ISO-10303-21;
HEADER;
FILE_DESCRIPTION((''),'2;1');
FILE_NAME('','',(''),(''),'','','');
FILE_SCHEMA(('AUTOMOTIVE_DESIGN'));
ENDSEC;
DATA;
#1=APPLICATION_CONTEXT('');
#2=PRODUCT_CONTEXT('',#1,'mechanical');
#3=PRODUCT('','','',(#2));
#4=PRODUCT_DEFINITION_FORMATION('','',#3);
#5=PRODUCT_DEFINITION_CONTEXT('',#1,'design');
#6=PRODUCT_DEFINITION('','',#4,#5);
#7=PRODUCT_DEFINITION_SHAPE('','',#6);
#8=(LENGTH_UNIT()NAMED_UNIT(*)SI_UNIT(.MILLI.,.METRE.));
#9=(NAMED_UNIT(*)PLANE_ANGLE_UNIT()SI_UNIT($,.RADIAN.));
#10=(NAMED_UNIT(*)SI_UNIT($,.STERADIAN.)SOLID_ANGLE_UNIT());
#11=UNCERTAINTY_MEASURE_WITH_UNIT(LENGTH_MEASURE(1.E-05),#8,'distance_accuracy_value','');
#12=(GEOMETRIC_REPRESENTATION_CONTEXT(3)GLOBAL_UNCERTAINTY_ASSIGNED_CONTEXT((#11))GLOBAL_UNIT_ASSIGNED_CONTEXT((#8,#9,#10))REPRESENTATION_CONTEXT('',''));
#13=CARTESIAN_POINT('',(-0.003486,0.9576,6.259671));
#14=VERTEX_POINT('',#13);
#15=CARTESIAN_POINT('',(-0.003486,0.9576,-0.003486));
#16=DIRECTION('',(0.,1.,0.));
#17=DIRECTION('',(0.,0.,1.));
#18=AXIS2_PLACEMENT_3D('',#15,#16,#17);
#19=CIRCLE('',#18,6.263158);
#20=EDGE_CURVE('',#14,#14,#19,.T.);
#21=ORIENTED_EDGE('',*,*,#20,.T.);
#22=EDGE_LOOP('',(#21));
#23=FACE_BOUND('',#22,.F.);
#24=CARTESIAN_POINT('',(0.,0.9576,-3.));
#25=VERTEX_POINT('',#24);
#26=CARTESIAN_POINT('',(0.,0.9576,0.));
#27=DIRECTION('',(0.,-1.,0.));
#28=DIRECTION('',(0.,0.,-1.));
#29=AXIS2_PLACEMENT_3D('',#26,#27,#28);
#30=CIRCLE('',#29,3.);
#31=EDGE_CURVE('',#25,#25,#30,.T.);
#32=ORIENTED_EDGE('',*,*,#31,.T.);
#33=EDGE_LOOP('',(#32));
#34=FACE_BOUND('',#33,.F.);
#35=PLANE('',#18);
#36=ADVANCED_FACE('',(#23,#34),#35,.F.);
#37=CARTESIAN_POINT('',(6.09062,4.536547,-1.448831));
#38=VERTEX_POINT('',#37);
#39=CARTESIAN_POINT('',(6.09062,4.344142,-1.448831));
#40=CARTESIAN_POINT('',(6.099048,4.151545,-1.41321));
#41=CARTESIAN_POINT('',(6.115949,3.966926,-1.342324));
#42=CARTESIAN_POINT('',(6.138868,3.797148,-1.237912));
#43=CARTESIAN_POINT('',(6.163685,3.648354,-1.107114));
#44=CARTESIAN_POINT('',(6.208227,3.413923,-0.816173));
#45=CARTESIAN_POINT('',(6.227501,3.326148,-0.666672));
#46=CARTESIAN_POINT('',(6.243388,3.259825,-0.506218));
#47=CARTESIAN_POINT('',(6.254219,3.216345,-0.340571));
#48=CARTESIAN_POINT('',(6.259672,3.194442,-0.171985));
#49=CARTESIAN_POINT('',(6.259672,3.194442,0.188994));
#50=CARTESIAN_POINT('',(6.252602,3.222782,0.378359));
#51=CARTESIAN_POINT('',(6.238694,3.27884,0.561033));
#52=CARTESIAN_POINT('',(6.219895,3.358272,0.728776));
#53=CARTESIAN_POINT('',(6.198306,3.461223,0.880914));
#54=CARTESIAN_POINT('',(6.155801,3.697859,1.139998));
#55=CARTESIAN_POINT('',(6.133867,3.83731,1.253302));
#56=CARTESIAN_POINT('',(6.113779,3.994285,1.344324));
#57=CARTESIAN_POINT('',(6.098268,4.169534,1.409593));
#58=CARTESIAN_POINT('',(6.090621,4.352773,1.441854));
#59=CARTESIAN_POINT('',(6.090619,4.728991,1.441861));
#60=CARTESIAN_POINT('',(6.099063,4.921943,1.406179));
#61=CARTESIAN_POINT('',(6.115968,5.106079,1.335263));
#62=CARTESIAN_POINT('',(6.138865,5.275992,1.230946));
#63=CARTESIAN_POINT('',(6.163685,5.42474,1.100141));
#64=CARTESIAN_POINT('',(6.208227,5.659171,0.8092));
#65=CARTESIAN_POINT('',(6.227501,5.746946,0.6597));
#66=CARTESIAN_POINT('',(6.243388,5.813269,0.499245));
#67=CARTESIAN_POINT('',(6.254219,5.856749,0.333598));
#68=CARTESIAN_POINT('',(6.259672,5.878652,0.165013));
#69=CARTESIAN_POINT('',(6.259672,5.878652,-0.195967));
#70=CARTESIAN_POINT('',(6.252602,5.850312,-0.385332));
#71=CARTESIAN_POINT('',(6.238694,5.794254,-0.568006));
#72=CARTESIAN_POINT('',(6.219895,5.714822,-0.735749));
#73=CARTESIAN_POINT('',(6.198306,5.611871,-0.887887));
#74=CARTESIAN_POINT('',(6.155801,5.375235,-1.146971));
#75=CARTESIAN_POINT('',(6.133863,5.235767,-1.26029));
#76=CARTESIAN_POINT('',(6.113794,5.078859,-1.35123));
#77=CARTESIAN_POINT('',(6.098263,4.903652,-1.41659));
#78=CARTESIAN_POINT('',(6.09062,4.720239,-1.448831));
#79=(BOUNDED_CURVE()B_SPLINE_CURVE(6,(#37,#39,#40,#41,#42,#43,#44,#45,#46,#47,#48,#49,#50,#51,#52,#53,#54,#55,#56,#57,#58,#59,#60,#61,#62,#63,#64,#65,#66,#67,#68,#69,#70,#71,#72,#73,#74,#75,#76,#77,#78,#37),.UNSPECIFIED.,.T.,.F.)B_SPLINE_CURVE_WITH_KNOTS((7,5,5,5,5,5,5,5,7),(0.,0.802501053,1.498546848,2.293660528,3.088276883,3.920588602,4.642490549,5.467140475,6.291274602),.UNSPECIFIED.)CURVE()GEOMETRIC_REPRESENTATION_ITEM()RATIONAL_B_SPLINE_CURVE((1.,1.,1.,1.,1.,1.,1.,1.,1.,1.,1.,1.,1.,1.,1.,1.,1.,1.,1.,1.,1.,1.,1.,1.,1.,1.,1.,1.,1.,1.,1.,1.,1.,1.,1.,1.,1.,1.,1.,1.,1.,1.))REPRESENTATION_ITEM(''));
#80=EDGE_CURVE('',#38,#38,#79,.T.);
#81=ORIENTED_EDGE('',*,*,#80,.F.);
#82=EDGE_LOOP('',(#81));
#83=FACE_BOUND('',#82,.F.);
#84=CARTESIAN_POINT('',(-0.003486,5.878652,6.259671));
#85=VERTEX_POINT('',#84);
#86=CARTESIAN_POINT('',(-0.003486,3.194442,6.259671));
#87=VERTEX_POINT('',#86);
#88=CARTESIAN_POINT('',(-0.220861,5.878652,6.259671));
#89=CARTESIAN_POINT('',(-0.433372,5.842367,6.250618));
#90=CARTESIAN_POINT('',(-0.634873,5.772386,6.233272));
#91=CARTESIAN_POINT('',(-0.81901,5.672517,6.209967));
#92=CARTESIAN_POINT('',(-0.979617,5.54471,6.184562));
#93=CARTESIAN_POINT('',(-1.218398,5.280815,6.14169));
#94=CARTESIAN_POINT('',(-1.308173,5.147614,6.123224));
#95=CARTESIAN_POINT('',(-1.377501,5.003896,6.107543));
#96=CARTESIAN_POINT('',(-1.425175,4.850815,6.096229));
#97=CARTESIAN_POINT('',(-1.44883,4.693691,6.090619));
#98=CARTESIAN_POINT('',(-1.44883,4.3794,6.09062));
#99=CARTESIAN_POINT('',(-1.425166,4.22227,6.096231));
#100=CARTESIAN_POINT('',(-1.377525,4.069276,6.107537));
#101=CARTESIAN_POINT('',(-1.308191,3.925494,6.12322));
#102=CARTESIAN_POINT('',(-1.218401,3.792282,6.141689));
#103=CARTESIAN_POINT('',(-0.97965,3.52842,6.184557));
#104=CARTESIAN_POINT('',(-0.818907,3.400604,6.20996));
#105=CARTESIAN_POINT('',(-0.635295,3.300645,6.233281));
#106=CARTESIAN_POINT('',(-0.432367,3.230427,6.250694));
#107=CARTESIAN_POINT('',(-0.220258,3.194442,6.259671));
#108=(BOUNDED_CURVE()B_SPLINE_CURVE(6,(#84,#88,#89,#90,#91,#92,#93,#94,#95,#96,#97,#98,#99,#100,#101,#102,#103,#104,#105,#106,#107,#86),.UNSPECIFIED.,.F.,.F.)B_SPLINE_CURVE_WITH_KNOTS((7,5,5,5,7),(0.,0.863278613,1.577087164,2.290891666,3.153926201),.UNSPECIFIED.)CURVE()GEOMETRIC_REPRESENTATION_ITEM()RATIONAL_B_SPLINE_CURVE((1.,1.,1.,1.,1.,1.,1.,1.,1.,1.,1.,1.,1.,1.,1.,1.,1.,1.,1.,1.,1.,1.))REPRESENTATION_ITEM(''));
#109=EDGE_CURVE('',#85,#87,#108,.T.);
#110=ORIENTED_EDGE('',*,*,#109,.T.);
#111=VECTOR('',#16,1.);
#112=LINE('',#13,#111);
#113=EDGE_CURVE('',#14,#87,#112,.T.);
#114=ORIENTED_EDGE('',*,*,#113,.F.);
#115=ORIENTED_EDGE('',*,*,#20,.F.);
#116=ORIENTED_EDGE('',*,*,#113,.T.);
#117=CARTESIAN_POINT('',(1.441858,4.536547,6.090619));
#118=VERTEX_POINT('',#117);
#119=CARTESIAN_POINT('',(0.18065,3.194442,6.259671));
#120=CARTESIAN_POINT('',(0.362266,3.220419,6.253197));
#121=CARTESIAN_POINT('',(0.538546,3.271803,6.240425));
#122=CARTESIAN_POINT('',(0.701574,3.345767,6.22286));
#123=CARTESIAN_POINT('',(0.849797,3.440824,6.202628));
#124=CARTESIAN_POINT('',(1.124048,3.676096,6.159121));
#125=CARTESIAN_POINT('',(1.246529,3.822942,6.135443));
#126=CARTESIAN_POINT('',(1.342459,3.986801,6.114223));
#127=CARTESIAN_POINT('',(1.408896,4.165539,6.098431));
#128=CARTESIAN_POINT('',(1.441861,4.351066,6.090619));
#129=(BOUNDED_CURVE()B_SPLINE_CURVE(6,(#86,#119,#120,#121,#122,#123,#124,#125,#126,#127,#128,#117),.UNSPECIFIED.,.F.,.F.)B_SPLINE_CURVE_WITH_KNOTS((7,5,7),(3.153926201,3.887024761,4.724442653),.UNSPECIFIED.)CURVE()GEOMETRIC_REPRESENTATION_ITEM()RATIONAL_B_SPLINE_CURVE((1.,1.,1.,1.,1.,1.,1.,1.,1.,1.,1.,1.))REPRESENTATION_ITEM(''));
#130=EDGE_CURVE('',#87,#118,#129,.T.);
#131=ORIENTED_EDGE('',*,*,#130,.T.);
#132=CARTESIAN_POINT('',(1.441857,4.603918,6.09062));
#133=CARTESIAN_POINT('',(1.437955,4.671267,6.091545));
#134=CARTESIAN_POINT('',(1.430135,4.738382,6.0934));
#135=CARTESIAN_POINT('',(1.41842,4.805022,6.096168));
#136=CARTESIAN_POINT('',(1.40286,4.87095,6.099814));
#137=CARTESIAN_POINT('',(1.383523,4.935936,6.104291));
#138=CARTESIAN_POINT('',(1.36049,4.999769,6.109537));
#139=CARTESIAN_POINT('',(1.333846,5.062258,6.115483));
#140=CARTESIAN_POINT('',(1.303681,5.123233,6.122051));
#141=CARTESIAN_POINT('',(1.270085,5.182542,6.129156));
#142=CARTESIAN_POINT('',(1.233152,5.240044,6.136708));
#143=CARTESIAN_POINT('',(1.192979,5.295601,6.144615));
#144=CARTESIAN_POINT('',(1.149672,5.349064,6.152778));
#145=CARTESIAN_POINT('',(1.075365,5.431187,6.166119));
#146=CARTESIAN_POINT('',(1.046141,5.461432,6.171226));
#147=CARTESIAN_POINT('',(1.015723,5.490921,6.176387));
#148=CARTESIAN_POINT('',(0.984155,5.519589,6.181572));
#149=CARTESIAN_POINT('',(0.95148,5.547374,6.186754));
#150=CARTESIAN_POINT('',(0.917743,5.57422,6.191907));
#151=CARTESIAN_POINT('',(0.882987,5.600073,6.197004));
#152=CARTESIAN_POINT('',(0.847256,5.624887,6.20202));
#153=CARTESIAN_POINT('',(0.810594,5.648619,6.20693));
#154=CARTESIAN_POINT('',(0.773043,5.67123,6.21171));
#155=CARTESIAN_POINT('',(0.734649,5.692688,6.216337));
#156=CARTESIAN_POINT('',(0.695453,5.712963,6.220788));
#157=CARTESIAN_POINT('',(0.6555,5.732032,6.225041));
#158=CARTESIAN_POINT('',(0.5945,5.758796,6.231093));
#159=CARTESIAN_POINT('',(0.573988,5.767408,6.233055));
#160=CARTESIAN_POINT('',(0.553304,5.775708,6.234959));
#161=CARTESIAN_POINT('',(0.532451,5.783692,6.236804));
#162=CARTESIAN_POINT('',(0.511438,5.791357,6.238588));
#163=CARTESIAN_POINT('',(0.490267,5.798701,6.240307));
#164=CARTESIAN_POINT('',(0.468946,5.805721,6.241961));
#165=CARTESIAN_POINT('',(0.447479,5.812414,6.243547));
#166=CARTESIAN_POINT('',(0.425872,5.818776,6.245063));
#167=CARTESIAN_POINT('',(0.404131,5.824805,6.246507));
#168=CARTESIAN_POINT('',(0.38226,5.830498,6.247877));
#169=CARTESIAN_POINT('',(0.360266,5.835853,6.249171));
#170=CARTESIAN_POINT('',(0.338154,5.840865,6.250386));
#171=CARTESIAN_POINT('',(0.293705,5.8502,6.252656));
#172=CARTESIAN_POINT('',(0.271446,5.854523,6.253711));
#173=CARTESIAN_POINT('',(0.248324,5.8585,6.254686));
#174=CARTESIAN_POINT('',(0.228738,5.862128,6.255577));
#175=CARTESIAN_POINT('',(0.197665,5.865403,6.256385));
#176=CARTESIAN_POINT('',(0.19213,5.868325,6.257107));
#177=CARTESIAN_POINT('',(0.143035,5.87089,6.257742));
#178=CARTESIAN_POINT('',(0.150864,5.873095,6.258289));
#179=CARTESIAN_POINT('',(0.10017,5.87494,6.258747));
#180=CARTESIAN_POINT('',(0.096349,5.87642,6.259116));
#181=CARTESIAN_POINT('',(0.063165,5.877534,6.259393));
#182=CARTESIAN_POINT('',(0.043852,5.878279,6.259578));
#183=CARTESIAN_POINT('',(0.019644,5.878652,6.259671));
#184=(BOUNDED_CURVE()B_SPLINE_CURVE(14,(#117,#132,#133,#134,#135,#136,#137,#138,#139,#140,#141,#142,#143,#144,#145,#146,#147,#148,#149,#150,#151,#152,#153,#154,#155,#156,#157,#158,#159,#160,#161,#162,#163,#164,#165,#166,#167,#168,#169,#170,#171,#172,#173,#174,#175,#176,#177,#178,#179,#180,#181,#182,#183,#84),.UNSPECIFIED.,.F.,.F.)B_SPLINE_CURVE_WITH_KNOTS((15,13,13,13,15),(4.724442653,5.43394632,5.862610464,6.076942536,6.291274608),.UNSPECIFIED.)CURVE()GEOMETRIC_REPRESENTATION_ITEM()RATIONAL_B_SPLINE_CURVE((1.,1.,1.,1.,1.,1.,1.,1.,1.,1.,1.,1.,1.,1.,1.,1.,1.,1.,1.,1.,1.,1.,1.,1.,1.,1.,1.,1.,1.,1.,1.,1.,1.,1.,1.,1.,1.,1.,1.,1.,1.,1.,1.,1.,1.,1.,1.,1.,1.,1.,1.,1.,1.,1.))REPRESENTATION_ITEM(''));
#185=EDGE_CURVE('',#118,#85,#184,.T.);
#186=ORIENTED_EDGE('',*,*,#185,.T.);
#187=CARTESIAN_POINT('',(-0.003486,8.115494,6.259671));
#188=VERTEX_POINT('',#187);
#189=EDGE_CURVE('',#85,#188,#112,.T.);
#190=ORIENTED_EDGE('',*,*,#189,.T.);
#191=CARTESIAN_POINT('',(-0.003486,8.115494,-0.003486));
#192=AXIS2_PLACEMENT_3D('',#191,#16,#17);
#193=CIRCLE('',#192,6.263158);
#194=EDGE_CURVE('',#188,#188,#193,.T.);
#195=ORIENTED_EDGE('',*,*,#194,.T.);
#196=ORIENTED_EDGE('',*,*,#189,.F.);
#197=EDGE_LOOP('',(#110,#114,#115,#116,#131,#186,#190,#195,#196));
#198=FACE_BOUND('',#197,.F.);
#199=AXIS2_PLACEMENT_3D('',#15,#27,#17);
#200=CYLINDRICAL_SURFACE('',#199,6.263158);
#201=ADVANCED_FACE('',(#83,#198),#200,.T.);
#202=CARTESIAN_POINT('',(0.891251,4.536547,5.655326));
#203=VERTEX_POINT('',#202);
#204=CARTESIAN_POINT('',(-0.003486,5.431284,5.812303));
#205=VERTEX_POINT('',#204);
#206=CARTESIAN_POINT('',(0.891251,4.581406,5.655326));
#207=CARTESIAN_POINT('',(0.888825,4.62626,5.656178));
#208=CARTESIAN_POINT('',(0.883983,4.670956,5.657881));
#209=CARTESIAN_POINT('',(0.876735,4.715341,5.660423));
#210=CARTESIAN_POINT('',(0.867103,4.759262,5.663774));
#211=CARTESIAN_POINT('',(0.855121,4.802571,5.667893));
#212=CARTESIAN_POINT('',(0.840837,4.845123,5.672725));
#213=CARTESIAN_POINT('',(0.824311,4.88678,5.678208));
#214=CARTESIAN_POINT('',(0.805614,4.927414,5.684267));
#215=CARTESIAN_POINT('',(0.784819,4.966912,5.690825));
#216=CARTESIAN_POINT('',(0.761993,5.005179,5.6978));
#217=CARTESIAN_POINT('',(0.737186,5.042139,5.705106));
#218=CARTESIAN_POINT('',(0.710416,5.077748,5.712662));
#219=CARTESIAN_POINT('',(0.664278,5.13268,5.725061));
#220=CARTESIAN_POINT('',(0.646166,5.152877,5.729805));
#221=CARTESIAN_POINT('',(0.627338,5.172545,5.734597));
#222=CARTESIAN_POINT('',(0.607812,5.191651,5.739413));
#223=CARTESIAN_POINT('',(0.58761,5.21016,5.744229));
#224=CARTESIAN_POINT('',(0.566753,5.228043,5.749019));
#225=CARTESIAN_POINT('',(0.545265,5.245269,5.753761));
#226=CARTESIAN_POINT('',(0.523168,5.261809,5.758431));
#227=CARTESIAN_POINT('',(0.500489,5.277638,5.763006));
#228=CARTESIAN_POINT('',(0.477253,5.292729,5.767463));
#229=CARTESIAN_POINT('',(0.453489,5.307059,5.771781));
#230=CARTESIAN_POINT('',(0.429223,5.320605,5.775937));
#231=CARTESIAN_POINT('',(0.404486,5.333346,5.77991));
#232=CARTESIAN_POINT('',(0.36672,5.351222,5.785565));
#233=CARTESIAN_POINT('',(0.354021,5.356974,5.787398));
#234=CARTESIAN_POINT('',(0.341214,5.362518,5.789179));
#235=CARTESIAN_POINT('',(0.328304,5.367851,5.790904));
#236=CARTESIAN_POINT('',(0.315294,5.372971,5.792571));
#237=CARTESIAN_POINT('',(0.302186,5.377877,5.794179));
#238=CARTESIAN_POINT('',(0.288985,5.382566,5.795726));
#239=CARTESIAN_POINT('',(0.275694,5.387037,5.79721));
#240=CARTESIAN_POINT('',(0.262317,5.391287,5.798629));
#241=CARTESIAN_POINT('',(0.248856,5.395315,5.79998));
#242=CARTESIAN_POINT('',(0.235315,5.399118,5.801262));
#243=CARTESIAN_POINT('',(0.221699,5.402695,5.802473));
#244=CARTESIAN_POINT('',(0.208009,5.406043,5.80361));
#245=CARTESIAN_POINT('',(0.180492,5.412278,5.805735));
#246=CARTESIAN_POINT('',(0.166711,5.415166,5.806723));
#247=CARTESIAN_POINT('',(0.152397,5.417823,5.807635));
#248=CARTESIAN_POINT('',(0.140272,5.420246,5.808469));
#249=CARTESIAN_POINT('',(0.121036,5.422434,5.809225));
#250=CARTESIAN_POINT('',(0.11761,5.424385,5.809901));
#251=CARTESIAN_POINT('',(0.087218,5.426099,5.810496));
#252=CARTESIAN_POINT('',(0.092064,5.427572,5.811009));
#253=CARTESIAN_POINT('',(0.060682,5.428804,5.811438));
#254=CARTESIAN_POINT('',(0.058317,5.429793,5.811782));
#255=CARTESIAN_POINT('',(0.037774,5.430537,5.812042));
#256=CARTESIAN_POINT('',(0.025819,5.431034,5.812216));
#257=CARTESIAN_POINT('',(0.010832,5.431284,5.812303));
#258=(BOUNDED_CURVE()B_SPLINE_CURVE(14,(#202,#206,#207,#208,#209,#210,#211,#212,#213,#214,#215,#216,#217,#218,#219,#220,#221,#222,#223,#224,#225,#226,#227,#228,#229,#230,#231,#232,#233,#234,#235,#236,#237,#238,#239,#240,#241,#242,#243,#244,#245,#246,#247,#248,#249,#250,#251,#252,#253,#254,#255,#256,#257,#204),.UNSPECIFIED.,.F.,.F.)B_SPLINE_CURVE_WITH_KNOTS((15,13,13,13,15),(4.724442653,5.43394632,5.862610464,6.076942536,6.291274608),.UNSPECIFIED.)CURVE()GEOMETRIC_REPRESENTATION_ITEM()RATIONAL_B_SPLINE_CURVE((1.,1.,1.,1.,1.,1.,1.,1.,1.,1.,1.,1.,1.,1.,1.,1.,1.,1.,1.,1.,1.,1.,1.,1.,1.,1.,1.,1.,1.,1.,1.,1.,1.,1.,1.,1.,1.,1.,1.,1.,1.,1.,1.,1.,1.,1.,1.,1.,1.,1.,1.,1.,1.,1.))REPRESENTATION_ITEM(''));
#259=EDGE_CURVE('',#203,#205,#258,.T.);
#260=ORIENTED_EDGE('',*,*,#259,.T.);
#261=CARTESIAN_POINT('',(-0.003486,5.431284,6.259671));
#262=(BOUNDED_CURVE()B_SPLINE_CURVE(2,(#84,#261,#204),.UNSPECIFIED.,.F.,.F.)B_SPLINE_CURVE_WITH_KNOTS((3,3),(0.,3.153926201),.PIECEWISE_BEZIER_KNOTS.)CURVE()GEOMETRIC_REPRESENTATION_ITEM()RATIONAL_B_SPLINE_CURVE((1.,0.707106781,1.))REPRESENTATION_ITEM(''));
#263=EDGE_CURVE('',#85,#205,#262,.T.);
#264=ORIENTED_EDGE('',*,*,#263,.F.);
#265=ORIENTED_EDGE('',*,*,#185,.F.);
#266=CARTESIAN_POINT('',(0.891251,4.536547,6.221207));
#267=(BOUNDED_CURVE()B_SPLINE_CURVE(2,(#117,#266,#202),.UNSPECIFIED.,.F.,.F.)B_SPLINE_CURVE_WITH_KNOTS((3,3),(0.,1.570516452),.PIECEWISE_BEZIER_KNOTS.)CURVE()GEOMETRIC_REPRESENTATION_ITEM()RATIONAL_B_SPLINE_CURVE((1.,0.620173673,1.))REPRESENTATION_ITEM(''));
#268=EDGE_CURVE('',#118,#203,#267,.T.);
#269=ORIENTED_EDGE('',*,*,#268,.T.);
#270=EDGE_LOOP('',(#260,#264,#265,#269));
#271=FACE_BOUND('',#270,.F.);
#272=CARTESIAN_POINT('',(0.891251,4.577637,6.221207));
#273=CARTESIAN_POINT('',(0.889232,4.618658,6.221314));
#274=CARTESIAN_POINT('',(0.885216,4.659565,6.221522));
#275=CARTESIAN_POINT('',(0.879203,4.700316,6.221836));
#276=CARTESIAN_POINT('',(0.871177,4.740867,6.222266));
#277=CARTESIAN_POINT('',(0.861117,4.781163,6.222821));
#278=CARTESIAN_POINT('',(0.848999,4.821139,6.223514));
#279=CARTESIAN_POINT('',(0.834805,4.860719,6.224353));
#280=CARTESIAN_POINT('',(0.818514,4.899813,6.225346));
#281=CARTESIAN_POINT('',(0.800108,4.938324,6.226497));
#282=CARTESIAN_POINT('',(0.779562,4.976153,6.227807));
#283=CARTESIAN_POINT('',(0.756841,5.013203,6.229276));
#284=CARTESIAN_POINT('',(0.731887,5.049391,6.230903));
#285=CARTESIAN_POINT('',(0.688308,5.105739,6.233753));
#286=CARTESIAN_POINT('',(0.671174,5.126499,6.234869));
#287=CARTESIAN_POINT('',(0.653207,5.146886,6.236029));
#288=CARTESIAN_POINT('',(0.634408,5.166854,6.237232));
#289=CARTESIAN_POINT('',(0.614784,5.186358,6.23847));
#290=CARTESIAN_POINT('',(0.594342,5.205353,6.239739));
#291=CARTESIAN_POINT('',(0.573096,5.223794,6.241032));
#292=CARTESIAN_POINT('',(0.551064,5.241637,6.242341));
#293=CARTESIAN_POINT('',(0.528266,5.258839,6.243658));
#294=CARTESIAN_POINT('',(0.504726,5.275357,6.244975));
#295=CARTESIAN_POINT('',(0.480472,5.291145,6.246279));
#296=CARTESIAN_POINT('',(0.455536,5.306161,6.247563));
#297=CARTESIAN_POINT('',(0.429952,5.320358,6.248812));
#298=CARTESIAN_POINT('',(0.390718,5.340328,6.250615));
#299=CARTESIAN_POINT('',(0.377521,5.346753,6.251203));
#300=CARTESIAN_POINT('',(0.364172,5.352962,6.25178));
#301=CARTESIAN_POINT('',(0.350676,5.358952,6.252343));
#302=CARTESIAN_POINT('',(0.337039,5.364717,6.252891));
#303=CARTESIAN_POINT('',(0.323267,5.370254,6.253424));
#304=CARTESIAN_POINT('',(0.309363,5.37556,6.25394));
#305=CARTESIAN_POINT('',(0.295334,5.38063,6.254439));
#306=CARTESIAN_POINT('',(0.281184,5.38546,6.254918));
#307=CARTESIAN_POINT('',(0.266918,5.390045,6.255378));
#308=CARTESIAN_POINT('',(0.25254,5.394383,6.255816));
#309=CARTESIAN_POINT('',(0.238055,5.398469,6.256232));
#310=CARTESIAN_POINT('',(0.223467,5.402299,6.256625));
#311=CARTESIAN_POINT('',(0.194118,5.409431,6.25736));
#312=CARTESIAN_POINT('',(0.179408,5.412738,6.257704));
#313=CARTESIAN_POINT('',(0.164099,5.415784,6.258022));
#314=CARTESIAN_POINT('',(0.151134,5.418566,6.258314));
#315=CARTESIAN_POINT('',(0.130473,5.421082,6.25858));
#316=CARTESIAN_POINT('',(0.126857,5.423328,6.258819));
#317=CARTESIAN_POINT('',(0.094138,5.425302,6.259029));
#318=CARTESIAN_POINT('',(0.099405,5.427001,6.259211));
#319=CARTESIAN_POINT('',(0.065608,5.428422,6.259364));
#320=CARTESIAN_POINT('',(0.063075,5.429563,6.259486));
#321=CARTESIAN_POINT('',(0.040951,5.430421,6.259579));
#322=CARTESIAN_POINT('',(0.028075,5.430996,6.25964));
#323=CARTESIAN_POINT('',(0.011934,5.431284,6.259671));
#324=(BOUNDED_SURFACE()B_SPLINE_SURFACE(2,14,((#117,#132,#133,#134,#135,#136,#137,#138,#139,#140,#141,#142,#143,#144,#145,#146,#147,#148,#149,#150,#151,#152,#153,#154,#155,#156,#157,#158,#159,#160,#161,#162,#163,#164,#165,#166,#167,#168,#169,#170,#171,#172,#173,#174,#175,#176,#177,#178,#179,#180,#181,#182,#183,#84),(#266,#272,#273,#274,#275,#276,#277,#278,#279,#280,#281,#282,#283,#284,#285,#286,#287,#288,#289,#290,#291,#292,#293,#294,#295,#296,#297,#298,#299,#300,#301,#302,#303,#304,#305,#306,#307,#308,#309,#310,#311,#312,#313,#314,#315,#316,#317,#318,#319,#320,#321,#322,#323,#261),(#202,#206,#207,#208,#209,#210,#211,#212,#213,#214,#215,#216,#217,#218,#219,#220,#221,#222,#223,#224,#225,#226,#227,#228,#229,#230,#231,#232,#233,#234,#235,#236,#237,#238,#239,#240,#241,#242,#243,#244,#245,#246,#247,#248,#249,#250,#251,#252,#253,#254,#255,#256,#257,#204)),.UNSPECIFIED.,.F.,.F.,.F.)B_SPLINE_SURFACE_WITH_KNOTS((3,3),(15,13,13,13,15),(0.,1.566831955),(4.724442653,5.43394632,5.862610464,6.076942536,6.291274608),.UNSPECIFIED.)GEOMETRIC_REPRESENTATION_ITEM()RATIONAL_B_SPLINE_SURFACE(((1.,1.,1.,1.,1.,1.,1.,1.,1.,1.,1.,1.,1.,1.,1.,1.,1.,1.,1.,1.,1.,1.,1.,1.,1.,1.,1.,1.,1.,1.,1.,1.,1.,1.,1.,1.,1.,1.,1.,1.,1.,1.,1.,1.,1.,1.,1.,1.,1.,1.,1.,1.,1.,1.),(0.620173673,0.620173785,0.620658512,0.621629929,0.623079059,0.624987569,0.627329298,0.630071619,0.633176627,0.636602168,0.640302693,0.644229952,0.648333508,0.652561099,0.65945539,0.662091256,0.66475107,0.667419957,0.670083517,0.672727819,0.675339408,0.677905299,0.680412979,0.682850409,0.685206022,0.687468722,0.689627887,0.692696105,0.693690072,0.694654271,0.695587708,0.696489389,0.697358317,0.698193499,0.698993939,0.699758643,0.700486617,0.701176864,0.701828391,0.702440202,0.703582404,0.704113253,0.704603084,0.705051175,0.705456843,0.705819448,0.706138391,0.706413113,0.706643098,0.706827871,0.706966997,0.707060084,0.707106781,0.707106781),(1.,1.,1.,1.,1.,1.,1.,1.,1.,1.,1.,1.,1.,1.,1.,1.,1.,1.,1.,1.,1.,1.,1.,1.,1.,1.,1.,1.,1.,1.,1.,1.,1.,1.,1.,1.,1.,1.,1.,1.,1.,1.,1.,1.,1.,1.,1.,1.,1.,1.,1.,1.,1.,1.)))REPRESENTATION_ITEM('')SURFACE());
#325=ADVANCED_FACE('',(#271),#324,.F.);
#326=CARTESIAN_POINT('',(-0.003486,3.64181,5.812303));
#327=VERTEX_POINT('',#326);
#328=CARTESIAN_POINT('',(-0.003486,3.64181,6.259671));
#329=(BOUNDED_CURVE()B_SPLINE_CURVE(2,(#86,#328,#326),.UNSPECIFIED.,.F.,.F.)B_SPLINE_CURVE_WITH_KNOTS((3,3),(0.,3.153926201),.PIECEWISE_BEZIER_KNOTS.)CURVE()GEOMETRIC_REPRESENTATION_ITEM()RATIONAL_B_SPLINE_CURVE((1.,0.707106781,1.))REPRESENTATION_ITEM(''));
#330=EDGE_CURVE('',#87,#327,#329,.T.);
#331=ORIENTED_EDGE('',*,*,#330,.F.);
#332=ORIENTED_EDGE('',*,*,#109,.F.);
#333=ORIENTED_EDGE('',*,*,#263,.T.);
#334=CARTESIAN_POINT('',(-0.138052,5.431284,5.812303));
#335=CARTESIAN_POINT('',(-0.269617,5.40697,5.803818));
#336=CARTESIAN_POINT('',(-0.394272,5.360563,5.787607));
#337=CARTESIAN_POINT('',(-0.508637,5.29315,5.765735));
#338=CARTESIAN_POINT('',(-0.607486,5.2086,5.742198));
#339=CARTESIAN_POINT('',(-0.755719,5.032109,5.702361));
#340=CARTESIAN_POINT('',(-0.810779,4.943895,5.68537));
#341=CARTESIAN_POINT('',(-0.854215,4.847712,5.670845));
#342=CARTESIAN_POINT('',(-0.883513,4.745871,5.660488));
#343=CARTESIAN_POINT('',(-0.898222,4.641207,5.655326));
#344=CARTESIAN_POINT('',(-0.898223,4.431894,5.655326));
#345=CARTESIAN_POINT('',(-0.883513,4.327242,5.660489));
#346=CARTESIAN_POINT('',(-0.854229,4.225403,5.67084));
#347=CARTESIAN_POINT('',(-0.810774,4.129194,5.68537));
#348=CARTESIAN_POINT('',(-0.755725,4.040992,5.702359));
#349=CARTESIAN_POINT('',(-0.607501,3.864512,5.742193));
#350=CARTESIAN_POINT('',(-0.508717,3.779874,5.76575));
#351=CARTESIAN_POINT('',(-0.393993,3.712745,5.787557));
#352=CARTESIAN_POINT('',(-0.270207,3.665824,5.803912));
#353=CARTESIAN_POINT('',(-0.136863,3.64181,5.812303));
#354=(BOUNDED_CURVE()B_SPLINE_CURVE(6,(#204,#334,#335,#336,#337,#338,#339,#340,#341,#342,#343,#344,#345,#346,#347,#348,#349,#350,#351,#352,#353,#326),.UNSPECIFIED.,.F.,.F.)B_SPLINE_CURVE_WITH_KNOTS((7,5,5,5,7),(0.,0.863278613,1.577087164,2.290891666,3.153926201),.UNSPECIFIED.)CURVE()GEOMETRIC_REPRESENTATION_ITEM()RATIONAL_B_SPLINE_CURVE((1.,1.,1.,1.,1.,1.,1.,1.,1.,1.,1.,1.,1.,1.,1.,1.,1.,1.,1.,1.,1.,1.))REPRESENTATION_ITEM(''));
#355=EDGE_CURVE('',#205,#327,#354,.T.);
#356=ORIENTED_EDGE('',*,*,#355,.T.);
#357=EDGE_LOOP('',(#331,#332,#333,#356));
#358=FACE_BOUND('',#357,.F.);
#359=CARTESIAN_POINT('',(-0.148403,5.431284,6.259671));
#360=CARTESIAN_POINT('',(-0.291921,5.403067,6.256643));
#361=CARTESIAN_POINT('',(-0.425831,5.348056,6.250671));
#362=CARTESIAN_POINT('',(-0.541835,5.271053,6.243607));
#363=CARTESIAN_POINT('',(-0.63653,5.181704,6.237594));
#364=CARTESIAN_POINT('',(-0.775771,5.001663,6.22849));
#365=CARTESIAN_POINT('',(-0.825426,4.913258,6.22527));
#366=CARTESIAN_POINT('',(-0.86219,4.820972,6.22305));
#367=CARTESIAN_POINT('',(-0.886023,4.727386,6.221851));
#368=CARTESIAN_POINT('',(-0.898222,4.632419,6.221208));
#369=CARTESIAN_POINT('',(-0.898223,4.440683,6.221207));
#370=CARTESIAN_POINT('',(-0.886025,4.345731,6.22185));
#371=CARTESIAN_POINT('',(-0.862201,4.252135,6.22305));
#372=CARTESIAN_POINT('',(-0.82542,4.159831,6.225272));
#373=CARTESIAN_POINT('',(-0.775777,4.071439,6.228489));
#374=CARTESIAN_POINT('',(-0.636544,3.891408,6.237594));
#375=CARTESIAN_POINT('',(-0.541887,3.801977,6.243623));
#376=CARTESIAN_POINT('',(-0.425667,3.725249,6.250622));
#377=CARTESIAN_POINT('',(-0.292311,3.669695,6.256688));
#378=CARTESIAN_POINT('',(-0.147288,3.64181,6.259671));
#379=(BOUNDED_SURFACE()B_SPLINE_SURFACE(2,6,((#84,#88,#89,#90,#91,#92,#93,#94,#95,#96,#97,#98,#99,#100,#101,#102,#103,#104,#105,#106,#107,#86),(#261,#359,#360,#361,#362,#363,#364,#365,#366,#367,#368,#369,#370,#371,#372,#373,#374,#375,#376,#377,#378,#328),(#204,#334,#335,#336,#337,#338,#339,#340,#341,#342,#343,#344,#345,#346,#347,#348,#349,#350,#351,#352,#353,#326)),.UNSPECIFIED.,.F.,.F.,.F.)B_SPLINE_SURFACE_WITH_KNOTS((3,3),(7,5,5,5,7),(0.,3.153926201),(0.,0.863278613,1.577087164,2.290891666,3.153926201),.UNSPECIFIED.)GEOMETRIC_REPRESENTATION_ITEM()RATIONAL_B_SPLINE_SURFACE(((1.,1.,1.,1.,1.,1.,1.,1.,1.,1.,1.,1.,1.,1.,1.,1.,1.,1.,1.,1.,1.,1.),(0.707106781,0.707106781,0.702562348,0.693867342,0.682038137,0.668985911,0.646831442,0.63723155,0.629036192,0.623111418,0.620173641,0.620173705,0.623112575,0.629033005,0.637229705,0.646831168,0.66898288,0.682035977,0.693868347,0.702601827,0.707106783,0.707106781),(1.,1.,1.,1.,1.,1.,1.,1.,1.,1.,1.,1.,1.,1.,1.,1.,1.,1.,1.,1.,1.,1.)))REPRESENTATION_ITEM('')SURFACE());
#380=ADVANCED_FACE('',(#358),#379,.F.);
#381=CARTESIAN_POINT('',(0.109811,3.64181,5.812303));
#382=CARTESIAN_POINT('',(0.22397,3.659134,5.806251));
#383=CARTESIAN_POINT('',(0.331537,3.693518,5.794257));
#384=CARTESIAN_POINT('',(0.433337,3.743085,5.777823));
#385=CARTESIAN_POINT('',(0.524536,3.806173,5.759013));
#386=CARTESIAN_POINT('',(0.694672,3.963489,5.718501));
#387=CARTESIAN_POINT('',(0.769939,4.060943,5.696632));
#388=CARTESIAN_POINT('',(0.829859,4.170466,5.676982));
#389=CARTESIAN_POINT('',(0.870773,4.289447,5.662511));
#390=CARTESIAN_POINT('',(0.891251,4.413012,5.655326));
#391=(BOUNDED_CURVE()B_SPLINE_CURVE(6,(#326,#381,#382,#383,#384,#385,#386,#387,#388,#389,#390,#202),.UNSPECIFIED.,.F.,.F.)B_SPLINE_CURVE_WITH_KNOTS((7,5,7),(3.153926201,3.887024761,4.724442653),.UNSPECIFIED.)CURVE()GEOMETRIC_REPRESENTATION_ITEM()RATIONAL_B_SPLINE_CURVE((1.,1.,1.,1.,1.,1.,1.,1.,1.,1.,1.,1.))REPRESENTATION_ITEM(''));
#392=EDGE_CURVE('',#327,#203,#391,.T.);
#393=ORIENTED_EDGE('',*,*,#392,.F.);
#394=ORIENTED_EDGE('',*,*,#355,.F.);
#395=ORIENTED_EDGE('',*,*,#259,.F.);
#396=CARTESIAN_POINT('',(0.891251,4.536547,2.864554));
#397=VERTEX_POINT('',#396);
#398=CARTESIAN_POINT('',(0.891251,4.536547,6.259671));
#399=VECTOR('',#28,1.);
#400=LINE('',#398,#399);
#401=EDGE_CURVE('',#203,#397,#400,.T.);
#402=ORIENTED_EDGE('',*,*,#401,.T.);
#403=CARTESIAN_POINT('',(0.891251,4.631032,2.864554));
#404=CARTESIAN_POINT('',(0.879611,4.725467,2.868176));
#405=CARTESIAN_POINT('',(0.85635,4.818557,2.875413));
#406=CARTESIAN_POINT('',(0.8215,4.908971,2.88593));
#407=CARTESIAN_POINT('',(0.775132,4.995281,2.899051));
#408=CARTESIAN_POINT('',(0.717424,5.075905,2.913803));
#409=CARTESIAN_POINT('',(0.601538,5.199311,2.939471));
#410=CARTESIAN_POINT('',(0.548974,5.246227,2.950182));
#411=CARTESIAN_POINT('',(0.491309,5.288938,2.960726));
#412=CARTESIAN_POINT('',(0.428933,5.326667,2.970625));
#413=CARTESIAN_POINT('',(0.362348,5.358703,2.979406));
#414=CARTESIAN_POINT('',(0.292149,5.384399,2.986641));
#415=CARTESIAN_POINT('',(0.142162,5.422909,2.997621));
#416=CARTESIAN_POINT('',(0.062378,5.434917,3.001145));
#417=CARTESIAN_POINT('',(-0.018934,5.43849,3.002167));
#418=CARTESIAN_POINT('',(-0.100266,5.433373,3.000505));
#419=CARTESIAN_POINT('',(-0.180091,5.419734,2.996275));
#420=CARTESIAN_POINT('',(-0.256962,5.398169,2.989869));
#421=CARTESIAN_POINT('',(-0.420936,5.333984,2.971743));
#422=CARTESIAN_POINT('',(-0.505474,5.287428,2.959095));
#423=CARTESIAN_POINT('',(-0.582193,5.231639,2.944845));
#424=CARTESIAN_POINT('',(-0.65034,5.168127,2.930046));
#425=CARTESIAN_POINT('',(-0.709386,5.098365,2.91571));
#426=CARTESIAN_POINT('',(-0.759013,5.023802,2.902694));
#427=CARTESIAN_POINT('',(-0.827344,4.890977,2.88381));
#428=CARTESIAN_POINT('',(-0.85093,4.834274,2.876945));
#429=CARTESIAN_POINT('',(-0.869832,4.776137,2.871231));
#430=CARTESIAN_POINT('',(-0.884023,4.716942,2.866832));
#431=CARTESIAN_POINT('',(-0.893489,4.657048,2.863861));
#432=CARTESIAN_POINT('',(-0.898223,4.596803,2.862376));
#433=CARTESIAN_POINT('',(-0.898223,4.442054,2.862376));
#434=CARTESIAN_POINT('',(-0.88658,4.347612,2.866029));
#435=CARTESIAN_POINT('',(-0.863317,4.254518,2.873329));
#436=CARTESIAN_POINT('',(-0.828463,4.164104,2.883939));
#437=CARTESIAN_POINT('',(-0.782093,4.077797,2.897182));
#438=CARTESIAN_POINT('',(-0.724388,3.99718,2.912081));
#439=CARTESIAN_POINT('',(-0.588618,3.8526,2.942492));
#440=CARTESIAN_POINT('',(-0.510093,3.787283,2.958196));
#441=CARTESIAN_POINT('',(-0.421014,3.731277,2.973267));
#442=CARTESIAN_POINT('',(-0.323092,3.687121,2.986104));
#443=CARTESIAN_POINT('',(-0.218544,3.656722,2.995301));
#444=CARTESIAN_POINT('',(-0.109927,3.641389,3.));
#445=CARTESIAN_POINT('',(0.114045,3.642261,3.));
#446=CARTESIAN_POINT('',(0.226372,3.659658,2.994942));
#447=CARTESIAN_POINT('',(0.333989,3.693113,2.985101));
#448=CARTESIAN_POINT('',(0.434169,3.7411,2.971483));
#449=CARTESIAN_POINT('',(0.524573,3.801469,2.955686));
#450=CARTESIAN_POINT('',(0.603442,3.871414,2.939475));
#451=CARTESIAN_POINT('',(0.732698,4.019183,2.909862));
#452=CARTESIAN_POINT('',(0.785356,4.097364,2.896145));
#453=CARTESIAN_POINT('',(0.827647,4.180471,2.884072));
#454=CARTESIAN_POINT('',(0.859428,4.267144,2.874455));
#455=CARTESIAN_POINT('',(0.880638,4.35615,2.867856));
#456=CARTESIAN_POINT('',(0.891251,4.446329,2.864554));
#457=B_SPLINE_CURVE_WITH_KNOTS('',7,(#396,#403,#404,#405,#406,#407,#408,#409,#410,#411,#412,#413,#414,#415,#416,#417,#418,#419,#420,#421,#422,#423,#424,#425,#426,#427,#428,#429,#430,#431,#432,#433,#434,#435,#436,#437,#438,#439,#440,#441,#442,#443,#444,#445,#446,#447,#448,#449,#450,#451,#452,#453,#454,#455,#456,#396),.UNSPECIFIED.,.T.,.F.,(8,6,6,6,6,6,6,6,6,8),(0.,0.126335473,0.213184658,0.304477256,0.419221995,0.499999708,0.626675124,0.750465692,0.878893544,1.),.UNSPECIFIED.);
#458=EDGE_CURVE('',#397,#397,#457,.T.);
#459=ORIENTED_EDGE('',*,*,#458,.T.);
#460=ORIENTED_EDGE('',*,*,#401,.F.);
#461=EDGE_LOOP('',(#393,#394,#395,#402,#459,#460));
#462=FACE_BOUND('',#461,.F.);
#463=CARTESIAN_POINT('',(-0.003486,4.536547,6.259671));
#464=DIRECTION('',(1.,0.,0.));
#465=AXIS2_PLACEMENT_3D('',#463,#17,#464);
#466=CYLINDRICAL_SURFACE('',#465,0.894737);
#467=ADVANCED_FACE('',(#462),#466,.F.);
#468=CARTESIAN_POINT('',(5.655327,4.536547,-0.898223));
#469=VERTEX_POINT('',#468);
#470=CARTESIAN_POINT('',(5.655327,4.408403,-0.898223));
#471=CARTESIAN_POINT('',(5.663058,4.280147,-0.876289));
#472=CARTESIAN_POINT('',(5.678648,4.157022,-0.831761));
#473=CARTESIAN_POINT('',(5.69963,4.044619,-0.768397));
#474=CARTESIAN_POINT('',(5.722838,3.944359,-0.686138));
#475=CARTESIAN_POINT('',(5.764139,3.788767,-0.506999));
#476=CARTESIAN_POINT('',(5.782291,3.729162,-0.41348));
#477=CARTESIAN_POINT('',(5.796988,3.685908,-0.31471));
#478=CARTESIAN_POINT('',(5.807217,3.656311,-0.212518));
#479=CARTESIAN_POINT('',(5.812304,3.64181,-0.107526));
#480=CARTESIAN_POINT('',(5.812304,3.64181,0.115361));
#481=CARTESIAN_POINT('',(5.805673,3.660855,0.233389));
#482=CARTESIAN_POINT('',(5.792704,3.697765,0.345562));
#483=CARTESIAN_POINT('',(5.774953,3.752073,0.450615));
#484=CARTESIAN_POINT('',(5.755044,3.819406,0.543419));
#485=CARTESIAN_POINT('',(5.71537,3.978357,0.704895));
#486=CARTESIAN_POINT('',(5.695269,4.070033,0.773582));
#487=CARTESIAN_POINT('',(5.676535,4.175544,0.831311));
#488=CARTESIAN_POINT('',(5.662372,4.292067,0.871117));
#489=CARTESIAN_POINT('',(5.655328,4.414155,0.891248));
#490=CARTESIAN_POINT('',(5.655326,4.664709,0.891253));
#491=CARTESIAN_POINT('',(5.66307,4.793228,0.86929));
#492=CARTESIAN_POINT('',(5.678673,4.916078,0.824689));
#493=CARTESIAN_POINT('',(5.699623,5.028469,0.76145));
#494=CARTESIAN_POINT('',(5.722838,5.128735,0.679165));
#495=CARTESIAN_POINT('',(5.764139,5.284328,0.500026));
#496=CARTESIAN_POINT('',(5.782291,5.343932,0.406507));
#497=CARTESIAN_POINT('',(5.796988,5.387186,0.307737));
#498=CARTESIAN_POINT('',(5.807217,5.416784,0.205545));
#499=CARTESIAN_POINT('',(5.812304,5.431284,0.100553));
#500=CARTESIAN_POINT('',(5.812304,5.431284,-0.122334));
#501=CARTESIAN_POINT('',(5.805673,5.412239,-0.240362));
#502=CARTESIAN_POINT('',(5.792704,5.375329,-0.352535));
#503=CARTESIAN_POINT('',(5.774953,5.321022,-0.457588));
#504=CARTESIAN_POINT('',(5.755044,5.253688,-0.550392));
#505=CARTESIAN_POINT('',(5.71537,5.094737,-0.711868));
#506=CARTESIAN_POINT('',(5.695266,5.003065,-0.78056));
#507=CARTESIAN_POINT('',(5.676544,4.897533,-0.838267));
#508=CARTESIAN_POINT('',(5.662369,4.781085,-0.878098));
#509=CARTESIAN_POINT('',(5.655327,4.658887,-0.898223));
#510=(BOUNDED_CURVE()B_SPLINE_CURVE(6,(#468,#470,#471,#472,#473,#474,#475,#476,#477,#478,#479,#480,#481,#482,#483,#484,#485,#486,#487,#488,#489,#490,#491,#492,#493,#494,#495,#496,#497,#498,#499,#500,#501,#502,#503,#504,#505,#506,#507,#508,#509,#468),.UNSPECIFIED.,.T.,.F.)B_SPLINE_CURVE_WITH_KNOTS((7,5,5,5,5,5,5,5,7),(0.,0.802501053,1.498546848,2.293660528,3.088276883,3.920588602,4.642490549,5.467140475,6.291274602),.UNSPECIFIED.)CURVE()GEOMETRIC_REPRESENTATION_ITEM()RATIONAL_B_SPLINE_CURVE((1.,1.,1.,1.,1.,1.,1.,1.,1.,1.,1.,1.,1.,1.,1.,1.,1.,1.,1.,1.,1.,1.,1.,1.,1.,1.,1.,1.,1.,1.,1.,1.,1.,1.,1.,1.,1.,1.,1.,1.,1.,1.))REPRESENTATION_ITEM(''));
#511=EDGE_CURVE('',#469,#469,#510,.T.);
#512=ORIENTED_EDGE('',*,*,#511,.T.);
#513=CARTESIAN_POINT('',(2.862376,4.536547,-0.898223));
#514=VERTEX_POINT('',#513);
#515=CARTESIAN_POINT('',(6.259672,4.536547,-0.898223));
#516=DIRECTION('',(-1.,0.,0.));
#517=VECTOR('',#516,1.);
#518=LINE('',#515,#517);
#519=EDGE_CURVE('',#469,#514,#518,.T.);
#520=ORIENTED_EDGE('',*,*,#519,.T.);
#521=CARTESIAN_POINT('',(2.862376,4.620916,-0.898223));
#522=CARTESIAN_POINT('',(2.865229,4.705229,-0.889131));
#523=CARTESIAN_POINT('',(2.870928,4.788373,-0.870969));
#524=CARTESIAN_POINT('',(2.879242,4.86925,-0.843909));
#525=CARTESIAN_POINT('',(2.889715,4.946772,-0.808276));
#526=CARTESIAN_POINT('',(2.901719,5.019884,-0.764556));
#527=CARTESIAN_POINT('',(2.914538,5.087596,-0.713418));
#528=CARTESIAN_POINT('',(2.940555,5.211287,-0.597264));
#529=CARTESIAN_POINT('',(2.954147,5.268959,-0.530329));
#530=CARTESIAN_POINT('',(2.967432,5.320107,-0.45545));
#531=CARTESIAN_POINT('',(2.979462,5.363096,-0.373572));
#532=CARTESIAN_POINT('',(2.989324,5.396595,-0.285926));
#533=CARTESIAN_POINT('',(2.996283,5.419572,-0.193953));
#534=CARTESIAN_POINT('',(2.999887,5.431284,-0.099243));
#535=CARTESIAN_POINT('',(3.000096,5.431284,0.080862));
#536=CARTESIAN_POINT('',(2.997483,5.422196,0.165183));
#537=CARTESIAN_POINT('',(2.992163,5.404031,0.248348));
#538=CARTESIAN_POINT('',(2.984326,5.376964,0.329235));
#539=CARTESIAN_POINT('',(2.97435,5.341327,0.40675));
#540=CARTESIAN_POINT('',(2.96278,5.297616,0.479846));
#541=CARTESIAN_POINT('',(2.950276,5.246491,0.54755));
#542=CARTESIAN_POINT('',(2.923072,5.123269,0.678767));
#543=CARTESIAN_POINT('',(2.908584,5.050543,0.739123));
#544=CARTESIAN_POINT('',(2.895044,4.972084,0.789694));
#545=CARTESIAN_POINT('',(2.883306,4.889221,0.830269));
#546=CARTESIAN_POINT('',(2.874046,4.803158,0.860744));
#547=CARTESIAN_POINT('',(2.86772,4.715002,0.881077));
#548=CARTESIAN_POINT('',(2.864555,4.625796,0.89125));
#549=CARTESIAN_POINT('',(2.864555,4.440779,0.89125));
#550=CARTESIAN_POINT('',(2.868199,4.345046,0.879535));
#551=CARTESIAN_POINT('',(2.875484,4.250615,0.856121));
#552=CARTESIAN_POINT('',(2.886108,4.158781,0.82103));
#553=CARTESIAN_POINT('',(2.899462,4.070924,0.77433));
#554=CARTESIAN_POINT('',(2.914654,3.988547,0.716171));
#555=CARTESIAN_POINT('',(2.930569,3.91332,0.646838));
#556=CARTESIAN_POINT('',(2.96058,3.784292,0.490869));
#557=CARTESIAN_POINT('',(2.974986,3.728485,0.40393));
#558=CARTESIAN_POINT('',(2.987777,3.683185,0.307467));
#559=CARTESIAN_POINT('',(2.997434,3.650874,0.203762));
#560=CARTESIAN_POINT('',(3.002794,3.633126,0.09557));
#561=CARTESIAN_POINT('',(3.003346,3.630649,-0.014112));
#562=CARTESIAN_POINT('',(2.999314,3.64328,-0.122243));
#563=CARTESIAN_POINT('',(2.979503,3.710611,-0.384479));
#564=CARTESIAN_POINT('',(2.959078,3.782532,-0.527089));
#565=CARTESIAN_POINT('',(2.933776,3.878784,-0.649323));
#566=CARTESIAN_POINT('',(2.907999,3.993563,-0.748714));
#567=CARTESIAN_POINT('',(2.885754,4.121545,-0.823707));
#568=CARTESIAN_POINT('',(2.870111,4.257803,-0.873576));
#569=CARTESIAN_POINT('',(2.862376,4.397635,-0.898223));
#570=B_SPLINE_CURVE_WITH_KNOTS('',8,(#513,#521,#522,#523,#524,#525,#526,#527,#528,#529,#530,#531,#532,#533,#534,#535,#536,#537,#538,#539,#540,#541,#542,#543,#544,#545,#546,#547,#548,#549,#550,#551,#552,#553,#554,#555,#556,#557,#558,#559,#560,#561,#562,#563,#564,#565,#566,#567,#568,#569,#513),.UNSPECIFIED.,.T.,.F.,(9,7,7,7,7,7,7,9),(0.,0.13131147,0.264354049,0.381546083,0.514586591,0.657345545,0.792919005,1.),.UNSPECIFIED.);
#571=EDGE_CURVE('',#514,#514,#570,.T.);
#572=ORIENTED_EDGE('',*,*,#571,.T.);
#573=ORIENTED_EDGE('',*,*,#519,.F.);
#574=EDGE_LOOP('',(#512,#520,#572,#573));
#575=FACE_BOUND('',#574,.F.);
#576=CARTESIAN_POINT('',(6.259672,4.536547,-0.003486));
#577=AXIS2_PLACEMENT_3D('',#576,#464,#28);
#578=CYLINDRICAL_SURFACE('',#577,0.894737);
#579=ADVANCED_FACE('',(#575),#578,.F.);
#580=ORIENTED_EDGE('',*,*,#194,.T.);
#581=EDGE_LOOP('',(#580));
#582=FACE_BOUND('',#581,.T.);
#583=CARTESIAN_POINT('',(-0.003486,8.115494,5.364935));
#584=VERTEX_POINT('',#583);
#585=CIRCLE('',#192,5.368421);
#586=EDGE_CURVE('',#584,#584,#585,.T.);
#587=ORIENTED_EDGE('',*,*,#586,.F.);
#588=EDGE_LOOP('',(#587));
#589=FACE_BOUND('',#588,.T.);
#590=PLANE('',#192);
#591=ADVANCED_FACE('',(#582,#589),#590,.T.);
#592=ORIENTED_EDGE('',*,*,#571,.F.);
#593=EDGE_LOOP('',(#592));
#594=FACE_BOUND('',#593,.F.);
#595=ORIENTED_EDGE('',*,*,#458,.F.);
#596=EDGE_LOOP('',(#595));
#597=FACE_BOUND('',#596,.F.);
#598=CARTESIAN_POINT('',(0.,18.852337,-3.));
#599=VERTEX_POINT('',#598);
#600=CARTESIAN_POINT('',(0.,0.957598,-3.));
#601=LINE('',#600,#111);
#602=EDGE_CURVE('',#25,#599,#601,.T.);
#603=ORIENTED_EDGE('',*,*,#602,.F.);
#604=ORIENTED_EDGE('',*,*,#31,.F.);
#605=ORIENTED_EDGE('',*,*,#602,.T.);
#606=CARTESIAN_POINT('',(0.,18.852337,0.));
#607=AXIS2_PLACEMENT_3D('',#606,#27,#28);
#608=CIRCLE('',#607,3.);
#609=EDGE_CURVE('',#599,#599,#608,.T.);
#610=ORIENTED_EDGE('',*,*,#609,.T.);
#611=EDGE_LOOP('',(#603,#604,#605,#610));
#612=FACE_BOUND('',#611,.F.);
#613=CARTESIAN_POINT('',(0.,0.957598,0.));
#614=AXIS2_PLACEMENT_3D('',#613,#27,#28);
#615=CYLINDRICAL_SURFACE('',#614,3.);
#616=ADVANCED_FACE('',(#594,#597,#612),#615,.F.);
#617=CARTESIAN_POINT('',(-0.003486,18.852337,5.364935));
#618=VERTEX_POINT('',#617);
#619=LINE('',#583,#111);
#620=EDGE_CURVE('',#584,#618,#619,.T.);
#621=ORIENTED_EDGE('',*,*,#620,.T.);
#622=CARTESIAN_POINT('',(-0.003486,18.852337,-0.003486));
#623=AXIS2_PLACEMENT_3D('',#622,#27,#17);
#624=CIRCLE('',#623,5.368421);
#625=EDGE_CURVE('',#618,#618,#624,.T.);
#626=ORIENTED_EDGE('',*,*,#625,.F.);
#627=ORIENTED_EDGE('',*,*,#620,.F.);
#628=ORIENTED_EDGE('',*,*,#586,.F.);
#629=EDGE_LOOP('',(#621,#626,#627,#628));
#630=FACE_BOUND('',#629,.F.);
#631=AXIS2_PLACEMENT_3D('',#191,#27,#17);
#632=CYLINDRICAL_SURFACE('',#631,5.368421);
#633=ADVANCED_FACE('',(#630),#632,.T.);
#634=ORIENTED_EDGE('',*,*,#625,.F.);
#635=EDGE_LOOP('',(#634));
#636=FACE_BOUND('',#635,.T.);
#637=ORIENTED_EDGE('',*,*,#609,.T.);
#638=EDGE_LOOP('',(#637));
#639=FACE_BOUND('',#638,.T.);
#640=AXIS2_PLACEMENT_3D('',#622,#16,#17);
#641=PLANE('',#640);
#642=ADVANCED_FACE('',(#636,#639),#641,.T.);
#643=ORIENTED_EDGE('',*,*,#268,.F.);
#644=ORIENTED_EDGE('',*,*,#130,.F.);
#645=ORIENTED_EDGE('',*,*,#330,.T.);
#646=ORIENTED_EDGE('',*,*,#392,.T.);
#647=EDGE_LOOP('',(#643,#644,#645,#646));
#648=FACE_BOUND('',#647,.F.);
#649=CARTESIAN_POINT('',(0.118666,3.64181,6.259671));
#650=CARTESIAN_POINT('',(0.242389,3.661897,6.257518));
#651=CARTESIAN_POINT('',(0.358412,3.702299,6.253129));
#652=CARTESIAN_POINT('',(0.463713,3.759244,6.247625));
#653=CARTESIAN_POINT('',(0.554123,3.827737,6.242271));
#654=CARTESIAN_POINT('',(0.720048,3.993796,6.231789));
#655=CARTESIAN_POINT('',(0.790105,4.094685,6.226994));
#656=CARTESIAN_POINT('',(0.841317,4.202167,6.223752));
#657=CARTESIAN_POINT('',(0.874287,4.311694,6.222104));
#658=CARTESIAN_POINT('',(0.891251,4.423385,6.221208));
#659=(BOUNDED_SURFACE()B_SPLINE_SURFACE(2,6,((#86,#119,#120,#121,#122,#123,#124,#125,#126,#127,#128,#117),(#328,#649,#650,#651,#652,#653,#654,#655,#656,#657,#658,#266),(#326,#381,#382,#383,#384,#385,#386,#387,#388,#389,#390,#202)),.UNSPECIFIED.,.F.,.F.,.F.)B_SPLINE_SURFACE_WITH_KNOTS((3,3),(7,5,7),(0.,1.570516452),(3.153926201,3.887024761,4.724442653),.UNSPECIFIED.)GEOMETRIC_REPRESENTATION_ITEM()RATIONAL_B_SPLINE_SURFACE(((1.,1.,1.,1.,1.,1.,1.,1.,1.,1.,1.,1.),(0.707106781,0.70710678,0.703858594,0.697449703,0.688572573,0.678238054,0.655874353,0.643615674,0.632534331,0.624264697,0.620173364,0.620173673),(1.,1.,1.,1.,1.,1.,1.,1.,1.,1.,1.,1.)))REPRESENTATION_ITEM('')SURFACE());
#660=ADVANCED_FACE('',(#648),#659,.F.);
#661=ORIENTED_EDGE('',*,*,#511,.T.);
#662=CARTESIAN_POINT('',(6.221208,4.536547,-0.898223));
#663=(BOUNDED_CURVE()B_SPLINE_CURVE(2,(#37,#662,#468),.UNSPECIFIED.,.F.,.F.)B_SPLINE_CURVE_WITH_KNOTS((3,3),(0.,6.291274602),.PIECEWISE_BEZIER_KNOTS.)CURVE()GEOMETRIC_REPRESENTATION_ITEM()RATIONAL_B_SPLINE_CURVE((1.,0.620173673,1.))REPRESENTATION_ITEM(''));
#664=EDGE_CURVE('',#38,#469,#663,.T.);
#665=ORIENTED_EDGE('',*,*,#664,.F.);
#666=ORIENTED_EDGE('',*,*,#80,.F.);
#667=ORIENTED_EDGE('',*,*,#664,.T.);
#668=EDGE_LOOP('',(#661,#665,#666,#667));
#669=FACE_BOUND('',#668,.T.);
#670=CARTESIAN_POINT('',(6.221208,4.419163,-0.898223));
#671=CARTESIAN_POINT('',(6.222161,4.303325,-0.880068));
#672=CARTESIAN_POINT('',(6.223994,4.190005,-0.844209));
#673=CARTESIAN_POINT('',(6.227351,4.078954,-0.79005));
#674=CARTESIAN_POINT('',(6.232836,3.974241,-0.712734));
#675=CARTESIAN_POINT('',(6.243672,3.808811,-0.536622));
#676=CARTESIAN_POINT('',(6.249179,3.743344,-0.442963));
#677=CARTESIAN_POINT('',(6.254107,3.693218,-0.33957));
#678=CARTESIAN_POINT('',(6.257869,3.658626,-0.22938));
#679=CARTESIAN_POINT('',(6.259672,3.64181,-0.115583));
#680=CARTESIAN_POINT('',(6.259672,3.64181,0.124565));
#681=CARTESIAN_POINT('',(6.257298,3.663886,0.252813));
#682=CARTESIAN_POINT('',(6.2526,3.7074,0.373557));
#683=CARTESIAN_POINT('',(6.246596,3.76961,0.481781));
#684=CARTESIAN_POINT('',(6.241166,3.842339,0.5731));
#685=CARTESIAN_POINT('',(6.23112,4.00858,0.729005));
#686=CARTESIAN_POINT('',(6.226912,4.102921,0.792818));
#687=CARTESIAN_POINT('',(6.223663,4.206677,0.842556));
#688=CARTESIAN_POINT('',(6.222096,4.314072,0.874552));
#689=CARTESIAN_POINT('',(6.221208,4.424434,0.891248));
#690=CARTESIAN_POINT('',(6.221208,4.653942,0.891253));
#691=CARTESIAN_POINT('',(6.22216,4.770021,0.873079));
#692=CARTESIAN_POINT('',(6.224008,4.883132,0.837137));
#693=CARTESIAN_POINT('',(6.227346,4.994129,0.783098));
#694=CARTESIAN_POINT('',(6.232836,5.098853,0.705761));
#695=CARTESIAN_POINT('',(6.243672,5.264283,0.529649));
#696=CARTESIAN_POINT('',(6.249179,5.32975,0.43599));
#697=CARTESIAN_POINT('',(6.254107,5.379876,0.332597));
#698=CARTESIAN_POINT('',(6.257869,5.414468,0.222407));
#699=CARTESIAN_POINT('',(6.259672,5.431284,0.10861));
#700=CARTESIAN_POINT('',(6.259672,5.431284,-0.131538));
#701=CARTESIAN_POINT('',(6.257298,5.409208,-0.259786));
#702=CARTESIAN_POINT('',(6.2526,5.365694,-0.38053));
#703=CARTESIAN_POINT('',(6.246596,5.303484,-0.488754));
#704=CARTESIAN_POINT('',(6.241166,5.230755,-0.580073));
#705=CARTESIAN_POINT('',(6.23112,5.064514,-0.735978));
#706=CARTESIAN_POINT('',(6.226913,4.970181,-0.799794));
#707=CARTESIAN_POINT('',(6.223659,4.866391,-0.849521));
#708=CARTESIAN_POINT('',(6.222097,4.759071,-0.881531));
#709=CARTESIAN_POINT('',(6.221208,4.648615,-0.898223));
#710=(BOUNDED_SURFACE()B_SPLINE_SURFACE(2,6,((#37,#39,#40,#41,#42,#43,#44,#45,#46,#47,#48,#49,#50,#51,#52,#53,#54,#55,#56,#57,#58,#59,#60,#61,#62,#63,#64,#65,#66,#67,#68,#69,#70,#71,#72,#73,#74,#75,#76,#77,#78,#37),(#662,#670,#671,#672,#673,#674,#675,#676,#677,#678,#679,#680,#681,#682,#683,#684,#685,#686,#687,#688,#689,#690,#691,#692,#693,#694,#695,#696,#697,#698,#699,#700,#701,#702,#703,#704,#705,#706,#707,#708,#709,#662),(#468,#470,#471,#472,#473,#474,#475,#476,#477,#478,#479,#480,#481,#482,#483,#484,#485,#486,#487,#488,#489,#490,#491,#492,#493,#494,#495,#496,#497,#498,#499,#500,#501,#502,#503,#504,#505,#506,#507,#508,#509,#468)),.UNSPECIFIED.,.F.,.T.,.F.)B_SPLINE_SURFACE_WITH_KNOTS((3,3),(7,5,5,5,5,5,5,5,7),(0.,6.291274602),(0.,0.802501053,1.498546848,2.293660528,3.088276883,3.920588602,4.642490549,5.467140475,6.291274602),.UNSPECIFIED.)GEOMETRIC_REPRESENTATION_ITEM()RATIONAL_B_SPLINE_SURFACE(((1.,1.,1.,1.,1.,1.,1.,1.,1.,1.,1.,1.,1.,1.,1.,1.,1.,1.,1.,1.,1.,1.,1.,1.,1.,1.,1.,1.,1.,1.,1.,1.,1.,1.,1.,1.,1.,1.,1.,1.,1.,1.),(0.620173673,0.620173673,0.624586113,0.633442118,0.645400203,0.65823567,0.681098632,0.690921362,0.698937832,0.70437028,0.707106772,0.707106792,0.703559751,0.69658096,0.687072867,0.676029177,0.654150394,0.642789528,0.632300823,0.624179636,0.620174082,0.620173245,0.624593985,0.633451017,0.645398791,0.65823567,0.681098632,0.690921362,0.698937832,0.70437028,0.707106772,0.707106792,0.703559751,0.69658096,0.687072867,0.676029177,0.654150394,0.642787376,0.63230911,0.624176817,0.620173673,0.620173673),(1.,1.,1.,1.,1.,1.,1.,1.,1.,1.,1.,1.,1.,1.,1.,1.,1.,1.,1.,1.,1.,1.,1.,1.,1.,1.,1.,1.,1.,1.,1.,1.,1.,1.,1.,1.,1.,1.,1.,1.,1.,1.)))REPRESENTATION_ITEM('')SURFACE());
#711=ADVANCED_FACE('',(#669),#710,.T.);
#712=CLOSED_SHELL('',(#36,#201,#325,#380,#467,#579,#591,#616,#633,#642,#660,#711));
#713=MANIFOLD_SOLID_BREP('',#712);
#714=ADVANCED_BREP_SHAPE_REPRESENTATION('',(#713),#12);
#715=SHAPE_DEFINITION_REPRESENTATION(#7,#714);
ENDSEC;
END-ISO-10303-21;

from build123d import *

# Parameters (mm, degrees)
SKETCH1_R               = 7
BOSS_EXTRUDE1_DEPTH     = 8
SKETCH2_R               = 6
BOSS_EXTRUDE2_DEPTH     = 14
SKETCH6_R               = 3
CUT_EXTRUDE2_DEPTH      = 20
CUT_EXTRUDE3_REACH      = 29
CUT_EXTRUDE3_END_RADIUS = 3
SKETCH8_R               = 1
CIRPATTERN1_COUNT       = 2
CIRPATTERN1_ANGLE       = 90
FILLET1_R               = 0.5
SKETCH3_R               = 7
CUT_EXTRUDE_2_DEPTH     = 2
SCALE_1_SCALE           = 0.894736842
SKETCH_1_R              = 3
CUT_EXTRUDE_3_DEPTH     = 20.969059417


with BuildPart() as part:
    # Sketch1 → Boss-Extrude1 (new body)
    with BuildSketch(Plane(origin=(0, 0, 0), x_dir=(1, 0, 0), z_dir=(0, 1, 0))):
        with Locations(Location((0, 0, 0), (0, 0, 270))):
            Circle(SKETCH1_R)
    extrude(amount=BOSS_EXTRUDE1_DEPTH)

    # Sketch2 → Boss-Extrude2 (add)
    with BuildSketch(Plane(origin=(0, 8, 0), x_dir=(1, 0, 0), z_dir=(0, 1, 0))):
        with Locations(Location((0, 0, 0), (0, 0, 270))):
            Circle(SKETCH2_R)
    extrude(amount=BOSS_EXTRUDE2_DEPTH)

    # Sketch6 → Cut-Extrude2 (cut)
    with BuildSketch(Plane.XZ):
        with Locations(Location((0, 0, 0), (0, 0, 270))):
            Circle(SKETCH6_R)
    extrude(amount=-CUT_EXTRUDE2_DEPTH, mode=Mode.SUBTRACT)

    # Cut-Extrude3: up to this cylinder (the profile starts outside it)
    cut_extrude3_end = Plane(origin=(0, 4, 0), z_dir=(0, -1, 0)) * Cylinder(CUT_EXTRUDE3_END_RADIUS, 65, mode=Mode.PRIVATE)
    # Sketch8 → Cut-Extrude3 (cut, up to the surface)
    with BuildSketch(Plane.XY.offset(7), mode=Mode.PRIVATE) as cut_extrude3_sk1:
        with Locations((0, 4)):
            Circle(SKETCH8_R)
    cut_extrude3_tool1 = extrude(cut_extrude3_sk1.sketch, amount=-CUT_EXTRUDE3_REACH, mode=Mode.PRIVATE) - cut_extrude3_end
    cut_extrude3 = cut_extrude3_tool1.solids().sort_by_distance((0, 4, 7))[0]
    add(cut_extrude3, mode=Mode.SUBTRACT)

    # CirPattern1: Cut-Extrude3 ×2 about axis
    cirpattern1_axis = Axis((0, 0, 0), (0, 1, 0))
    for i in range(1, CIRPATTERN1_COUNT):
        add(cut_extrude3.rotate(cirpattern1_axis, i * CIRPATTERN1_ANGLE / (CIRPATTERN1_COUNT - 1)), mode=Mode.SUBTRACT)

    # Fillet1
    fillet1_edges = [part.edges().sort_by_distance(p)[0] for p in [
        (-1, 4, 6.92820323),
        (6.92820323, 4, 1),
    ]]
    fillet(fillet1_edges, radius=FILLET1_R)

    # Sketch3 → ｶｯﾄ - 押し出し2 (cut)
    with BuildSketch(Plane(origin=(0, 22, 0), x_dir=(1, 0, 0), z_dir=(0, 1, 0))):
        with Locations(Location((0, 0, 0), (0, 0, 270))):
            Circle(SKETCH3_R)
    extrude(amount=-CUT_EXTRUDE_2_DEPTH, mode=Mode.SUBTRACT)


with BuildPart() as part_1:
    # ｽｹｰﾙ1: scaled about (-0.033116377, 9.097196925, -0.033121406)
    add(part.part.scale(SCALE_1_SCALE).moved(Location((-0.003485934, 0.957599676, -0.003486464))))

    # ｽｹｯﾁ1 → ｶｯﾄ - 押し出し3 (cut, through all)
    with BuildSketch(Plane.XZ.offset(-0.957597864)):
        with Locations(Location((0, 0, 0), (0, 0, 270))):
            Circle(SKETCH_1_R)
    extrude(amount=-CUT_EXTRUDE_3_DEPTH, mode=Mode.SUBTRACT)


solid = part_1.part
